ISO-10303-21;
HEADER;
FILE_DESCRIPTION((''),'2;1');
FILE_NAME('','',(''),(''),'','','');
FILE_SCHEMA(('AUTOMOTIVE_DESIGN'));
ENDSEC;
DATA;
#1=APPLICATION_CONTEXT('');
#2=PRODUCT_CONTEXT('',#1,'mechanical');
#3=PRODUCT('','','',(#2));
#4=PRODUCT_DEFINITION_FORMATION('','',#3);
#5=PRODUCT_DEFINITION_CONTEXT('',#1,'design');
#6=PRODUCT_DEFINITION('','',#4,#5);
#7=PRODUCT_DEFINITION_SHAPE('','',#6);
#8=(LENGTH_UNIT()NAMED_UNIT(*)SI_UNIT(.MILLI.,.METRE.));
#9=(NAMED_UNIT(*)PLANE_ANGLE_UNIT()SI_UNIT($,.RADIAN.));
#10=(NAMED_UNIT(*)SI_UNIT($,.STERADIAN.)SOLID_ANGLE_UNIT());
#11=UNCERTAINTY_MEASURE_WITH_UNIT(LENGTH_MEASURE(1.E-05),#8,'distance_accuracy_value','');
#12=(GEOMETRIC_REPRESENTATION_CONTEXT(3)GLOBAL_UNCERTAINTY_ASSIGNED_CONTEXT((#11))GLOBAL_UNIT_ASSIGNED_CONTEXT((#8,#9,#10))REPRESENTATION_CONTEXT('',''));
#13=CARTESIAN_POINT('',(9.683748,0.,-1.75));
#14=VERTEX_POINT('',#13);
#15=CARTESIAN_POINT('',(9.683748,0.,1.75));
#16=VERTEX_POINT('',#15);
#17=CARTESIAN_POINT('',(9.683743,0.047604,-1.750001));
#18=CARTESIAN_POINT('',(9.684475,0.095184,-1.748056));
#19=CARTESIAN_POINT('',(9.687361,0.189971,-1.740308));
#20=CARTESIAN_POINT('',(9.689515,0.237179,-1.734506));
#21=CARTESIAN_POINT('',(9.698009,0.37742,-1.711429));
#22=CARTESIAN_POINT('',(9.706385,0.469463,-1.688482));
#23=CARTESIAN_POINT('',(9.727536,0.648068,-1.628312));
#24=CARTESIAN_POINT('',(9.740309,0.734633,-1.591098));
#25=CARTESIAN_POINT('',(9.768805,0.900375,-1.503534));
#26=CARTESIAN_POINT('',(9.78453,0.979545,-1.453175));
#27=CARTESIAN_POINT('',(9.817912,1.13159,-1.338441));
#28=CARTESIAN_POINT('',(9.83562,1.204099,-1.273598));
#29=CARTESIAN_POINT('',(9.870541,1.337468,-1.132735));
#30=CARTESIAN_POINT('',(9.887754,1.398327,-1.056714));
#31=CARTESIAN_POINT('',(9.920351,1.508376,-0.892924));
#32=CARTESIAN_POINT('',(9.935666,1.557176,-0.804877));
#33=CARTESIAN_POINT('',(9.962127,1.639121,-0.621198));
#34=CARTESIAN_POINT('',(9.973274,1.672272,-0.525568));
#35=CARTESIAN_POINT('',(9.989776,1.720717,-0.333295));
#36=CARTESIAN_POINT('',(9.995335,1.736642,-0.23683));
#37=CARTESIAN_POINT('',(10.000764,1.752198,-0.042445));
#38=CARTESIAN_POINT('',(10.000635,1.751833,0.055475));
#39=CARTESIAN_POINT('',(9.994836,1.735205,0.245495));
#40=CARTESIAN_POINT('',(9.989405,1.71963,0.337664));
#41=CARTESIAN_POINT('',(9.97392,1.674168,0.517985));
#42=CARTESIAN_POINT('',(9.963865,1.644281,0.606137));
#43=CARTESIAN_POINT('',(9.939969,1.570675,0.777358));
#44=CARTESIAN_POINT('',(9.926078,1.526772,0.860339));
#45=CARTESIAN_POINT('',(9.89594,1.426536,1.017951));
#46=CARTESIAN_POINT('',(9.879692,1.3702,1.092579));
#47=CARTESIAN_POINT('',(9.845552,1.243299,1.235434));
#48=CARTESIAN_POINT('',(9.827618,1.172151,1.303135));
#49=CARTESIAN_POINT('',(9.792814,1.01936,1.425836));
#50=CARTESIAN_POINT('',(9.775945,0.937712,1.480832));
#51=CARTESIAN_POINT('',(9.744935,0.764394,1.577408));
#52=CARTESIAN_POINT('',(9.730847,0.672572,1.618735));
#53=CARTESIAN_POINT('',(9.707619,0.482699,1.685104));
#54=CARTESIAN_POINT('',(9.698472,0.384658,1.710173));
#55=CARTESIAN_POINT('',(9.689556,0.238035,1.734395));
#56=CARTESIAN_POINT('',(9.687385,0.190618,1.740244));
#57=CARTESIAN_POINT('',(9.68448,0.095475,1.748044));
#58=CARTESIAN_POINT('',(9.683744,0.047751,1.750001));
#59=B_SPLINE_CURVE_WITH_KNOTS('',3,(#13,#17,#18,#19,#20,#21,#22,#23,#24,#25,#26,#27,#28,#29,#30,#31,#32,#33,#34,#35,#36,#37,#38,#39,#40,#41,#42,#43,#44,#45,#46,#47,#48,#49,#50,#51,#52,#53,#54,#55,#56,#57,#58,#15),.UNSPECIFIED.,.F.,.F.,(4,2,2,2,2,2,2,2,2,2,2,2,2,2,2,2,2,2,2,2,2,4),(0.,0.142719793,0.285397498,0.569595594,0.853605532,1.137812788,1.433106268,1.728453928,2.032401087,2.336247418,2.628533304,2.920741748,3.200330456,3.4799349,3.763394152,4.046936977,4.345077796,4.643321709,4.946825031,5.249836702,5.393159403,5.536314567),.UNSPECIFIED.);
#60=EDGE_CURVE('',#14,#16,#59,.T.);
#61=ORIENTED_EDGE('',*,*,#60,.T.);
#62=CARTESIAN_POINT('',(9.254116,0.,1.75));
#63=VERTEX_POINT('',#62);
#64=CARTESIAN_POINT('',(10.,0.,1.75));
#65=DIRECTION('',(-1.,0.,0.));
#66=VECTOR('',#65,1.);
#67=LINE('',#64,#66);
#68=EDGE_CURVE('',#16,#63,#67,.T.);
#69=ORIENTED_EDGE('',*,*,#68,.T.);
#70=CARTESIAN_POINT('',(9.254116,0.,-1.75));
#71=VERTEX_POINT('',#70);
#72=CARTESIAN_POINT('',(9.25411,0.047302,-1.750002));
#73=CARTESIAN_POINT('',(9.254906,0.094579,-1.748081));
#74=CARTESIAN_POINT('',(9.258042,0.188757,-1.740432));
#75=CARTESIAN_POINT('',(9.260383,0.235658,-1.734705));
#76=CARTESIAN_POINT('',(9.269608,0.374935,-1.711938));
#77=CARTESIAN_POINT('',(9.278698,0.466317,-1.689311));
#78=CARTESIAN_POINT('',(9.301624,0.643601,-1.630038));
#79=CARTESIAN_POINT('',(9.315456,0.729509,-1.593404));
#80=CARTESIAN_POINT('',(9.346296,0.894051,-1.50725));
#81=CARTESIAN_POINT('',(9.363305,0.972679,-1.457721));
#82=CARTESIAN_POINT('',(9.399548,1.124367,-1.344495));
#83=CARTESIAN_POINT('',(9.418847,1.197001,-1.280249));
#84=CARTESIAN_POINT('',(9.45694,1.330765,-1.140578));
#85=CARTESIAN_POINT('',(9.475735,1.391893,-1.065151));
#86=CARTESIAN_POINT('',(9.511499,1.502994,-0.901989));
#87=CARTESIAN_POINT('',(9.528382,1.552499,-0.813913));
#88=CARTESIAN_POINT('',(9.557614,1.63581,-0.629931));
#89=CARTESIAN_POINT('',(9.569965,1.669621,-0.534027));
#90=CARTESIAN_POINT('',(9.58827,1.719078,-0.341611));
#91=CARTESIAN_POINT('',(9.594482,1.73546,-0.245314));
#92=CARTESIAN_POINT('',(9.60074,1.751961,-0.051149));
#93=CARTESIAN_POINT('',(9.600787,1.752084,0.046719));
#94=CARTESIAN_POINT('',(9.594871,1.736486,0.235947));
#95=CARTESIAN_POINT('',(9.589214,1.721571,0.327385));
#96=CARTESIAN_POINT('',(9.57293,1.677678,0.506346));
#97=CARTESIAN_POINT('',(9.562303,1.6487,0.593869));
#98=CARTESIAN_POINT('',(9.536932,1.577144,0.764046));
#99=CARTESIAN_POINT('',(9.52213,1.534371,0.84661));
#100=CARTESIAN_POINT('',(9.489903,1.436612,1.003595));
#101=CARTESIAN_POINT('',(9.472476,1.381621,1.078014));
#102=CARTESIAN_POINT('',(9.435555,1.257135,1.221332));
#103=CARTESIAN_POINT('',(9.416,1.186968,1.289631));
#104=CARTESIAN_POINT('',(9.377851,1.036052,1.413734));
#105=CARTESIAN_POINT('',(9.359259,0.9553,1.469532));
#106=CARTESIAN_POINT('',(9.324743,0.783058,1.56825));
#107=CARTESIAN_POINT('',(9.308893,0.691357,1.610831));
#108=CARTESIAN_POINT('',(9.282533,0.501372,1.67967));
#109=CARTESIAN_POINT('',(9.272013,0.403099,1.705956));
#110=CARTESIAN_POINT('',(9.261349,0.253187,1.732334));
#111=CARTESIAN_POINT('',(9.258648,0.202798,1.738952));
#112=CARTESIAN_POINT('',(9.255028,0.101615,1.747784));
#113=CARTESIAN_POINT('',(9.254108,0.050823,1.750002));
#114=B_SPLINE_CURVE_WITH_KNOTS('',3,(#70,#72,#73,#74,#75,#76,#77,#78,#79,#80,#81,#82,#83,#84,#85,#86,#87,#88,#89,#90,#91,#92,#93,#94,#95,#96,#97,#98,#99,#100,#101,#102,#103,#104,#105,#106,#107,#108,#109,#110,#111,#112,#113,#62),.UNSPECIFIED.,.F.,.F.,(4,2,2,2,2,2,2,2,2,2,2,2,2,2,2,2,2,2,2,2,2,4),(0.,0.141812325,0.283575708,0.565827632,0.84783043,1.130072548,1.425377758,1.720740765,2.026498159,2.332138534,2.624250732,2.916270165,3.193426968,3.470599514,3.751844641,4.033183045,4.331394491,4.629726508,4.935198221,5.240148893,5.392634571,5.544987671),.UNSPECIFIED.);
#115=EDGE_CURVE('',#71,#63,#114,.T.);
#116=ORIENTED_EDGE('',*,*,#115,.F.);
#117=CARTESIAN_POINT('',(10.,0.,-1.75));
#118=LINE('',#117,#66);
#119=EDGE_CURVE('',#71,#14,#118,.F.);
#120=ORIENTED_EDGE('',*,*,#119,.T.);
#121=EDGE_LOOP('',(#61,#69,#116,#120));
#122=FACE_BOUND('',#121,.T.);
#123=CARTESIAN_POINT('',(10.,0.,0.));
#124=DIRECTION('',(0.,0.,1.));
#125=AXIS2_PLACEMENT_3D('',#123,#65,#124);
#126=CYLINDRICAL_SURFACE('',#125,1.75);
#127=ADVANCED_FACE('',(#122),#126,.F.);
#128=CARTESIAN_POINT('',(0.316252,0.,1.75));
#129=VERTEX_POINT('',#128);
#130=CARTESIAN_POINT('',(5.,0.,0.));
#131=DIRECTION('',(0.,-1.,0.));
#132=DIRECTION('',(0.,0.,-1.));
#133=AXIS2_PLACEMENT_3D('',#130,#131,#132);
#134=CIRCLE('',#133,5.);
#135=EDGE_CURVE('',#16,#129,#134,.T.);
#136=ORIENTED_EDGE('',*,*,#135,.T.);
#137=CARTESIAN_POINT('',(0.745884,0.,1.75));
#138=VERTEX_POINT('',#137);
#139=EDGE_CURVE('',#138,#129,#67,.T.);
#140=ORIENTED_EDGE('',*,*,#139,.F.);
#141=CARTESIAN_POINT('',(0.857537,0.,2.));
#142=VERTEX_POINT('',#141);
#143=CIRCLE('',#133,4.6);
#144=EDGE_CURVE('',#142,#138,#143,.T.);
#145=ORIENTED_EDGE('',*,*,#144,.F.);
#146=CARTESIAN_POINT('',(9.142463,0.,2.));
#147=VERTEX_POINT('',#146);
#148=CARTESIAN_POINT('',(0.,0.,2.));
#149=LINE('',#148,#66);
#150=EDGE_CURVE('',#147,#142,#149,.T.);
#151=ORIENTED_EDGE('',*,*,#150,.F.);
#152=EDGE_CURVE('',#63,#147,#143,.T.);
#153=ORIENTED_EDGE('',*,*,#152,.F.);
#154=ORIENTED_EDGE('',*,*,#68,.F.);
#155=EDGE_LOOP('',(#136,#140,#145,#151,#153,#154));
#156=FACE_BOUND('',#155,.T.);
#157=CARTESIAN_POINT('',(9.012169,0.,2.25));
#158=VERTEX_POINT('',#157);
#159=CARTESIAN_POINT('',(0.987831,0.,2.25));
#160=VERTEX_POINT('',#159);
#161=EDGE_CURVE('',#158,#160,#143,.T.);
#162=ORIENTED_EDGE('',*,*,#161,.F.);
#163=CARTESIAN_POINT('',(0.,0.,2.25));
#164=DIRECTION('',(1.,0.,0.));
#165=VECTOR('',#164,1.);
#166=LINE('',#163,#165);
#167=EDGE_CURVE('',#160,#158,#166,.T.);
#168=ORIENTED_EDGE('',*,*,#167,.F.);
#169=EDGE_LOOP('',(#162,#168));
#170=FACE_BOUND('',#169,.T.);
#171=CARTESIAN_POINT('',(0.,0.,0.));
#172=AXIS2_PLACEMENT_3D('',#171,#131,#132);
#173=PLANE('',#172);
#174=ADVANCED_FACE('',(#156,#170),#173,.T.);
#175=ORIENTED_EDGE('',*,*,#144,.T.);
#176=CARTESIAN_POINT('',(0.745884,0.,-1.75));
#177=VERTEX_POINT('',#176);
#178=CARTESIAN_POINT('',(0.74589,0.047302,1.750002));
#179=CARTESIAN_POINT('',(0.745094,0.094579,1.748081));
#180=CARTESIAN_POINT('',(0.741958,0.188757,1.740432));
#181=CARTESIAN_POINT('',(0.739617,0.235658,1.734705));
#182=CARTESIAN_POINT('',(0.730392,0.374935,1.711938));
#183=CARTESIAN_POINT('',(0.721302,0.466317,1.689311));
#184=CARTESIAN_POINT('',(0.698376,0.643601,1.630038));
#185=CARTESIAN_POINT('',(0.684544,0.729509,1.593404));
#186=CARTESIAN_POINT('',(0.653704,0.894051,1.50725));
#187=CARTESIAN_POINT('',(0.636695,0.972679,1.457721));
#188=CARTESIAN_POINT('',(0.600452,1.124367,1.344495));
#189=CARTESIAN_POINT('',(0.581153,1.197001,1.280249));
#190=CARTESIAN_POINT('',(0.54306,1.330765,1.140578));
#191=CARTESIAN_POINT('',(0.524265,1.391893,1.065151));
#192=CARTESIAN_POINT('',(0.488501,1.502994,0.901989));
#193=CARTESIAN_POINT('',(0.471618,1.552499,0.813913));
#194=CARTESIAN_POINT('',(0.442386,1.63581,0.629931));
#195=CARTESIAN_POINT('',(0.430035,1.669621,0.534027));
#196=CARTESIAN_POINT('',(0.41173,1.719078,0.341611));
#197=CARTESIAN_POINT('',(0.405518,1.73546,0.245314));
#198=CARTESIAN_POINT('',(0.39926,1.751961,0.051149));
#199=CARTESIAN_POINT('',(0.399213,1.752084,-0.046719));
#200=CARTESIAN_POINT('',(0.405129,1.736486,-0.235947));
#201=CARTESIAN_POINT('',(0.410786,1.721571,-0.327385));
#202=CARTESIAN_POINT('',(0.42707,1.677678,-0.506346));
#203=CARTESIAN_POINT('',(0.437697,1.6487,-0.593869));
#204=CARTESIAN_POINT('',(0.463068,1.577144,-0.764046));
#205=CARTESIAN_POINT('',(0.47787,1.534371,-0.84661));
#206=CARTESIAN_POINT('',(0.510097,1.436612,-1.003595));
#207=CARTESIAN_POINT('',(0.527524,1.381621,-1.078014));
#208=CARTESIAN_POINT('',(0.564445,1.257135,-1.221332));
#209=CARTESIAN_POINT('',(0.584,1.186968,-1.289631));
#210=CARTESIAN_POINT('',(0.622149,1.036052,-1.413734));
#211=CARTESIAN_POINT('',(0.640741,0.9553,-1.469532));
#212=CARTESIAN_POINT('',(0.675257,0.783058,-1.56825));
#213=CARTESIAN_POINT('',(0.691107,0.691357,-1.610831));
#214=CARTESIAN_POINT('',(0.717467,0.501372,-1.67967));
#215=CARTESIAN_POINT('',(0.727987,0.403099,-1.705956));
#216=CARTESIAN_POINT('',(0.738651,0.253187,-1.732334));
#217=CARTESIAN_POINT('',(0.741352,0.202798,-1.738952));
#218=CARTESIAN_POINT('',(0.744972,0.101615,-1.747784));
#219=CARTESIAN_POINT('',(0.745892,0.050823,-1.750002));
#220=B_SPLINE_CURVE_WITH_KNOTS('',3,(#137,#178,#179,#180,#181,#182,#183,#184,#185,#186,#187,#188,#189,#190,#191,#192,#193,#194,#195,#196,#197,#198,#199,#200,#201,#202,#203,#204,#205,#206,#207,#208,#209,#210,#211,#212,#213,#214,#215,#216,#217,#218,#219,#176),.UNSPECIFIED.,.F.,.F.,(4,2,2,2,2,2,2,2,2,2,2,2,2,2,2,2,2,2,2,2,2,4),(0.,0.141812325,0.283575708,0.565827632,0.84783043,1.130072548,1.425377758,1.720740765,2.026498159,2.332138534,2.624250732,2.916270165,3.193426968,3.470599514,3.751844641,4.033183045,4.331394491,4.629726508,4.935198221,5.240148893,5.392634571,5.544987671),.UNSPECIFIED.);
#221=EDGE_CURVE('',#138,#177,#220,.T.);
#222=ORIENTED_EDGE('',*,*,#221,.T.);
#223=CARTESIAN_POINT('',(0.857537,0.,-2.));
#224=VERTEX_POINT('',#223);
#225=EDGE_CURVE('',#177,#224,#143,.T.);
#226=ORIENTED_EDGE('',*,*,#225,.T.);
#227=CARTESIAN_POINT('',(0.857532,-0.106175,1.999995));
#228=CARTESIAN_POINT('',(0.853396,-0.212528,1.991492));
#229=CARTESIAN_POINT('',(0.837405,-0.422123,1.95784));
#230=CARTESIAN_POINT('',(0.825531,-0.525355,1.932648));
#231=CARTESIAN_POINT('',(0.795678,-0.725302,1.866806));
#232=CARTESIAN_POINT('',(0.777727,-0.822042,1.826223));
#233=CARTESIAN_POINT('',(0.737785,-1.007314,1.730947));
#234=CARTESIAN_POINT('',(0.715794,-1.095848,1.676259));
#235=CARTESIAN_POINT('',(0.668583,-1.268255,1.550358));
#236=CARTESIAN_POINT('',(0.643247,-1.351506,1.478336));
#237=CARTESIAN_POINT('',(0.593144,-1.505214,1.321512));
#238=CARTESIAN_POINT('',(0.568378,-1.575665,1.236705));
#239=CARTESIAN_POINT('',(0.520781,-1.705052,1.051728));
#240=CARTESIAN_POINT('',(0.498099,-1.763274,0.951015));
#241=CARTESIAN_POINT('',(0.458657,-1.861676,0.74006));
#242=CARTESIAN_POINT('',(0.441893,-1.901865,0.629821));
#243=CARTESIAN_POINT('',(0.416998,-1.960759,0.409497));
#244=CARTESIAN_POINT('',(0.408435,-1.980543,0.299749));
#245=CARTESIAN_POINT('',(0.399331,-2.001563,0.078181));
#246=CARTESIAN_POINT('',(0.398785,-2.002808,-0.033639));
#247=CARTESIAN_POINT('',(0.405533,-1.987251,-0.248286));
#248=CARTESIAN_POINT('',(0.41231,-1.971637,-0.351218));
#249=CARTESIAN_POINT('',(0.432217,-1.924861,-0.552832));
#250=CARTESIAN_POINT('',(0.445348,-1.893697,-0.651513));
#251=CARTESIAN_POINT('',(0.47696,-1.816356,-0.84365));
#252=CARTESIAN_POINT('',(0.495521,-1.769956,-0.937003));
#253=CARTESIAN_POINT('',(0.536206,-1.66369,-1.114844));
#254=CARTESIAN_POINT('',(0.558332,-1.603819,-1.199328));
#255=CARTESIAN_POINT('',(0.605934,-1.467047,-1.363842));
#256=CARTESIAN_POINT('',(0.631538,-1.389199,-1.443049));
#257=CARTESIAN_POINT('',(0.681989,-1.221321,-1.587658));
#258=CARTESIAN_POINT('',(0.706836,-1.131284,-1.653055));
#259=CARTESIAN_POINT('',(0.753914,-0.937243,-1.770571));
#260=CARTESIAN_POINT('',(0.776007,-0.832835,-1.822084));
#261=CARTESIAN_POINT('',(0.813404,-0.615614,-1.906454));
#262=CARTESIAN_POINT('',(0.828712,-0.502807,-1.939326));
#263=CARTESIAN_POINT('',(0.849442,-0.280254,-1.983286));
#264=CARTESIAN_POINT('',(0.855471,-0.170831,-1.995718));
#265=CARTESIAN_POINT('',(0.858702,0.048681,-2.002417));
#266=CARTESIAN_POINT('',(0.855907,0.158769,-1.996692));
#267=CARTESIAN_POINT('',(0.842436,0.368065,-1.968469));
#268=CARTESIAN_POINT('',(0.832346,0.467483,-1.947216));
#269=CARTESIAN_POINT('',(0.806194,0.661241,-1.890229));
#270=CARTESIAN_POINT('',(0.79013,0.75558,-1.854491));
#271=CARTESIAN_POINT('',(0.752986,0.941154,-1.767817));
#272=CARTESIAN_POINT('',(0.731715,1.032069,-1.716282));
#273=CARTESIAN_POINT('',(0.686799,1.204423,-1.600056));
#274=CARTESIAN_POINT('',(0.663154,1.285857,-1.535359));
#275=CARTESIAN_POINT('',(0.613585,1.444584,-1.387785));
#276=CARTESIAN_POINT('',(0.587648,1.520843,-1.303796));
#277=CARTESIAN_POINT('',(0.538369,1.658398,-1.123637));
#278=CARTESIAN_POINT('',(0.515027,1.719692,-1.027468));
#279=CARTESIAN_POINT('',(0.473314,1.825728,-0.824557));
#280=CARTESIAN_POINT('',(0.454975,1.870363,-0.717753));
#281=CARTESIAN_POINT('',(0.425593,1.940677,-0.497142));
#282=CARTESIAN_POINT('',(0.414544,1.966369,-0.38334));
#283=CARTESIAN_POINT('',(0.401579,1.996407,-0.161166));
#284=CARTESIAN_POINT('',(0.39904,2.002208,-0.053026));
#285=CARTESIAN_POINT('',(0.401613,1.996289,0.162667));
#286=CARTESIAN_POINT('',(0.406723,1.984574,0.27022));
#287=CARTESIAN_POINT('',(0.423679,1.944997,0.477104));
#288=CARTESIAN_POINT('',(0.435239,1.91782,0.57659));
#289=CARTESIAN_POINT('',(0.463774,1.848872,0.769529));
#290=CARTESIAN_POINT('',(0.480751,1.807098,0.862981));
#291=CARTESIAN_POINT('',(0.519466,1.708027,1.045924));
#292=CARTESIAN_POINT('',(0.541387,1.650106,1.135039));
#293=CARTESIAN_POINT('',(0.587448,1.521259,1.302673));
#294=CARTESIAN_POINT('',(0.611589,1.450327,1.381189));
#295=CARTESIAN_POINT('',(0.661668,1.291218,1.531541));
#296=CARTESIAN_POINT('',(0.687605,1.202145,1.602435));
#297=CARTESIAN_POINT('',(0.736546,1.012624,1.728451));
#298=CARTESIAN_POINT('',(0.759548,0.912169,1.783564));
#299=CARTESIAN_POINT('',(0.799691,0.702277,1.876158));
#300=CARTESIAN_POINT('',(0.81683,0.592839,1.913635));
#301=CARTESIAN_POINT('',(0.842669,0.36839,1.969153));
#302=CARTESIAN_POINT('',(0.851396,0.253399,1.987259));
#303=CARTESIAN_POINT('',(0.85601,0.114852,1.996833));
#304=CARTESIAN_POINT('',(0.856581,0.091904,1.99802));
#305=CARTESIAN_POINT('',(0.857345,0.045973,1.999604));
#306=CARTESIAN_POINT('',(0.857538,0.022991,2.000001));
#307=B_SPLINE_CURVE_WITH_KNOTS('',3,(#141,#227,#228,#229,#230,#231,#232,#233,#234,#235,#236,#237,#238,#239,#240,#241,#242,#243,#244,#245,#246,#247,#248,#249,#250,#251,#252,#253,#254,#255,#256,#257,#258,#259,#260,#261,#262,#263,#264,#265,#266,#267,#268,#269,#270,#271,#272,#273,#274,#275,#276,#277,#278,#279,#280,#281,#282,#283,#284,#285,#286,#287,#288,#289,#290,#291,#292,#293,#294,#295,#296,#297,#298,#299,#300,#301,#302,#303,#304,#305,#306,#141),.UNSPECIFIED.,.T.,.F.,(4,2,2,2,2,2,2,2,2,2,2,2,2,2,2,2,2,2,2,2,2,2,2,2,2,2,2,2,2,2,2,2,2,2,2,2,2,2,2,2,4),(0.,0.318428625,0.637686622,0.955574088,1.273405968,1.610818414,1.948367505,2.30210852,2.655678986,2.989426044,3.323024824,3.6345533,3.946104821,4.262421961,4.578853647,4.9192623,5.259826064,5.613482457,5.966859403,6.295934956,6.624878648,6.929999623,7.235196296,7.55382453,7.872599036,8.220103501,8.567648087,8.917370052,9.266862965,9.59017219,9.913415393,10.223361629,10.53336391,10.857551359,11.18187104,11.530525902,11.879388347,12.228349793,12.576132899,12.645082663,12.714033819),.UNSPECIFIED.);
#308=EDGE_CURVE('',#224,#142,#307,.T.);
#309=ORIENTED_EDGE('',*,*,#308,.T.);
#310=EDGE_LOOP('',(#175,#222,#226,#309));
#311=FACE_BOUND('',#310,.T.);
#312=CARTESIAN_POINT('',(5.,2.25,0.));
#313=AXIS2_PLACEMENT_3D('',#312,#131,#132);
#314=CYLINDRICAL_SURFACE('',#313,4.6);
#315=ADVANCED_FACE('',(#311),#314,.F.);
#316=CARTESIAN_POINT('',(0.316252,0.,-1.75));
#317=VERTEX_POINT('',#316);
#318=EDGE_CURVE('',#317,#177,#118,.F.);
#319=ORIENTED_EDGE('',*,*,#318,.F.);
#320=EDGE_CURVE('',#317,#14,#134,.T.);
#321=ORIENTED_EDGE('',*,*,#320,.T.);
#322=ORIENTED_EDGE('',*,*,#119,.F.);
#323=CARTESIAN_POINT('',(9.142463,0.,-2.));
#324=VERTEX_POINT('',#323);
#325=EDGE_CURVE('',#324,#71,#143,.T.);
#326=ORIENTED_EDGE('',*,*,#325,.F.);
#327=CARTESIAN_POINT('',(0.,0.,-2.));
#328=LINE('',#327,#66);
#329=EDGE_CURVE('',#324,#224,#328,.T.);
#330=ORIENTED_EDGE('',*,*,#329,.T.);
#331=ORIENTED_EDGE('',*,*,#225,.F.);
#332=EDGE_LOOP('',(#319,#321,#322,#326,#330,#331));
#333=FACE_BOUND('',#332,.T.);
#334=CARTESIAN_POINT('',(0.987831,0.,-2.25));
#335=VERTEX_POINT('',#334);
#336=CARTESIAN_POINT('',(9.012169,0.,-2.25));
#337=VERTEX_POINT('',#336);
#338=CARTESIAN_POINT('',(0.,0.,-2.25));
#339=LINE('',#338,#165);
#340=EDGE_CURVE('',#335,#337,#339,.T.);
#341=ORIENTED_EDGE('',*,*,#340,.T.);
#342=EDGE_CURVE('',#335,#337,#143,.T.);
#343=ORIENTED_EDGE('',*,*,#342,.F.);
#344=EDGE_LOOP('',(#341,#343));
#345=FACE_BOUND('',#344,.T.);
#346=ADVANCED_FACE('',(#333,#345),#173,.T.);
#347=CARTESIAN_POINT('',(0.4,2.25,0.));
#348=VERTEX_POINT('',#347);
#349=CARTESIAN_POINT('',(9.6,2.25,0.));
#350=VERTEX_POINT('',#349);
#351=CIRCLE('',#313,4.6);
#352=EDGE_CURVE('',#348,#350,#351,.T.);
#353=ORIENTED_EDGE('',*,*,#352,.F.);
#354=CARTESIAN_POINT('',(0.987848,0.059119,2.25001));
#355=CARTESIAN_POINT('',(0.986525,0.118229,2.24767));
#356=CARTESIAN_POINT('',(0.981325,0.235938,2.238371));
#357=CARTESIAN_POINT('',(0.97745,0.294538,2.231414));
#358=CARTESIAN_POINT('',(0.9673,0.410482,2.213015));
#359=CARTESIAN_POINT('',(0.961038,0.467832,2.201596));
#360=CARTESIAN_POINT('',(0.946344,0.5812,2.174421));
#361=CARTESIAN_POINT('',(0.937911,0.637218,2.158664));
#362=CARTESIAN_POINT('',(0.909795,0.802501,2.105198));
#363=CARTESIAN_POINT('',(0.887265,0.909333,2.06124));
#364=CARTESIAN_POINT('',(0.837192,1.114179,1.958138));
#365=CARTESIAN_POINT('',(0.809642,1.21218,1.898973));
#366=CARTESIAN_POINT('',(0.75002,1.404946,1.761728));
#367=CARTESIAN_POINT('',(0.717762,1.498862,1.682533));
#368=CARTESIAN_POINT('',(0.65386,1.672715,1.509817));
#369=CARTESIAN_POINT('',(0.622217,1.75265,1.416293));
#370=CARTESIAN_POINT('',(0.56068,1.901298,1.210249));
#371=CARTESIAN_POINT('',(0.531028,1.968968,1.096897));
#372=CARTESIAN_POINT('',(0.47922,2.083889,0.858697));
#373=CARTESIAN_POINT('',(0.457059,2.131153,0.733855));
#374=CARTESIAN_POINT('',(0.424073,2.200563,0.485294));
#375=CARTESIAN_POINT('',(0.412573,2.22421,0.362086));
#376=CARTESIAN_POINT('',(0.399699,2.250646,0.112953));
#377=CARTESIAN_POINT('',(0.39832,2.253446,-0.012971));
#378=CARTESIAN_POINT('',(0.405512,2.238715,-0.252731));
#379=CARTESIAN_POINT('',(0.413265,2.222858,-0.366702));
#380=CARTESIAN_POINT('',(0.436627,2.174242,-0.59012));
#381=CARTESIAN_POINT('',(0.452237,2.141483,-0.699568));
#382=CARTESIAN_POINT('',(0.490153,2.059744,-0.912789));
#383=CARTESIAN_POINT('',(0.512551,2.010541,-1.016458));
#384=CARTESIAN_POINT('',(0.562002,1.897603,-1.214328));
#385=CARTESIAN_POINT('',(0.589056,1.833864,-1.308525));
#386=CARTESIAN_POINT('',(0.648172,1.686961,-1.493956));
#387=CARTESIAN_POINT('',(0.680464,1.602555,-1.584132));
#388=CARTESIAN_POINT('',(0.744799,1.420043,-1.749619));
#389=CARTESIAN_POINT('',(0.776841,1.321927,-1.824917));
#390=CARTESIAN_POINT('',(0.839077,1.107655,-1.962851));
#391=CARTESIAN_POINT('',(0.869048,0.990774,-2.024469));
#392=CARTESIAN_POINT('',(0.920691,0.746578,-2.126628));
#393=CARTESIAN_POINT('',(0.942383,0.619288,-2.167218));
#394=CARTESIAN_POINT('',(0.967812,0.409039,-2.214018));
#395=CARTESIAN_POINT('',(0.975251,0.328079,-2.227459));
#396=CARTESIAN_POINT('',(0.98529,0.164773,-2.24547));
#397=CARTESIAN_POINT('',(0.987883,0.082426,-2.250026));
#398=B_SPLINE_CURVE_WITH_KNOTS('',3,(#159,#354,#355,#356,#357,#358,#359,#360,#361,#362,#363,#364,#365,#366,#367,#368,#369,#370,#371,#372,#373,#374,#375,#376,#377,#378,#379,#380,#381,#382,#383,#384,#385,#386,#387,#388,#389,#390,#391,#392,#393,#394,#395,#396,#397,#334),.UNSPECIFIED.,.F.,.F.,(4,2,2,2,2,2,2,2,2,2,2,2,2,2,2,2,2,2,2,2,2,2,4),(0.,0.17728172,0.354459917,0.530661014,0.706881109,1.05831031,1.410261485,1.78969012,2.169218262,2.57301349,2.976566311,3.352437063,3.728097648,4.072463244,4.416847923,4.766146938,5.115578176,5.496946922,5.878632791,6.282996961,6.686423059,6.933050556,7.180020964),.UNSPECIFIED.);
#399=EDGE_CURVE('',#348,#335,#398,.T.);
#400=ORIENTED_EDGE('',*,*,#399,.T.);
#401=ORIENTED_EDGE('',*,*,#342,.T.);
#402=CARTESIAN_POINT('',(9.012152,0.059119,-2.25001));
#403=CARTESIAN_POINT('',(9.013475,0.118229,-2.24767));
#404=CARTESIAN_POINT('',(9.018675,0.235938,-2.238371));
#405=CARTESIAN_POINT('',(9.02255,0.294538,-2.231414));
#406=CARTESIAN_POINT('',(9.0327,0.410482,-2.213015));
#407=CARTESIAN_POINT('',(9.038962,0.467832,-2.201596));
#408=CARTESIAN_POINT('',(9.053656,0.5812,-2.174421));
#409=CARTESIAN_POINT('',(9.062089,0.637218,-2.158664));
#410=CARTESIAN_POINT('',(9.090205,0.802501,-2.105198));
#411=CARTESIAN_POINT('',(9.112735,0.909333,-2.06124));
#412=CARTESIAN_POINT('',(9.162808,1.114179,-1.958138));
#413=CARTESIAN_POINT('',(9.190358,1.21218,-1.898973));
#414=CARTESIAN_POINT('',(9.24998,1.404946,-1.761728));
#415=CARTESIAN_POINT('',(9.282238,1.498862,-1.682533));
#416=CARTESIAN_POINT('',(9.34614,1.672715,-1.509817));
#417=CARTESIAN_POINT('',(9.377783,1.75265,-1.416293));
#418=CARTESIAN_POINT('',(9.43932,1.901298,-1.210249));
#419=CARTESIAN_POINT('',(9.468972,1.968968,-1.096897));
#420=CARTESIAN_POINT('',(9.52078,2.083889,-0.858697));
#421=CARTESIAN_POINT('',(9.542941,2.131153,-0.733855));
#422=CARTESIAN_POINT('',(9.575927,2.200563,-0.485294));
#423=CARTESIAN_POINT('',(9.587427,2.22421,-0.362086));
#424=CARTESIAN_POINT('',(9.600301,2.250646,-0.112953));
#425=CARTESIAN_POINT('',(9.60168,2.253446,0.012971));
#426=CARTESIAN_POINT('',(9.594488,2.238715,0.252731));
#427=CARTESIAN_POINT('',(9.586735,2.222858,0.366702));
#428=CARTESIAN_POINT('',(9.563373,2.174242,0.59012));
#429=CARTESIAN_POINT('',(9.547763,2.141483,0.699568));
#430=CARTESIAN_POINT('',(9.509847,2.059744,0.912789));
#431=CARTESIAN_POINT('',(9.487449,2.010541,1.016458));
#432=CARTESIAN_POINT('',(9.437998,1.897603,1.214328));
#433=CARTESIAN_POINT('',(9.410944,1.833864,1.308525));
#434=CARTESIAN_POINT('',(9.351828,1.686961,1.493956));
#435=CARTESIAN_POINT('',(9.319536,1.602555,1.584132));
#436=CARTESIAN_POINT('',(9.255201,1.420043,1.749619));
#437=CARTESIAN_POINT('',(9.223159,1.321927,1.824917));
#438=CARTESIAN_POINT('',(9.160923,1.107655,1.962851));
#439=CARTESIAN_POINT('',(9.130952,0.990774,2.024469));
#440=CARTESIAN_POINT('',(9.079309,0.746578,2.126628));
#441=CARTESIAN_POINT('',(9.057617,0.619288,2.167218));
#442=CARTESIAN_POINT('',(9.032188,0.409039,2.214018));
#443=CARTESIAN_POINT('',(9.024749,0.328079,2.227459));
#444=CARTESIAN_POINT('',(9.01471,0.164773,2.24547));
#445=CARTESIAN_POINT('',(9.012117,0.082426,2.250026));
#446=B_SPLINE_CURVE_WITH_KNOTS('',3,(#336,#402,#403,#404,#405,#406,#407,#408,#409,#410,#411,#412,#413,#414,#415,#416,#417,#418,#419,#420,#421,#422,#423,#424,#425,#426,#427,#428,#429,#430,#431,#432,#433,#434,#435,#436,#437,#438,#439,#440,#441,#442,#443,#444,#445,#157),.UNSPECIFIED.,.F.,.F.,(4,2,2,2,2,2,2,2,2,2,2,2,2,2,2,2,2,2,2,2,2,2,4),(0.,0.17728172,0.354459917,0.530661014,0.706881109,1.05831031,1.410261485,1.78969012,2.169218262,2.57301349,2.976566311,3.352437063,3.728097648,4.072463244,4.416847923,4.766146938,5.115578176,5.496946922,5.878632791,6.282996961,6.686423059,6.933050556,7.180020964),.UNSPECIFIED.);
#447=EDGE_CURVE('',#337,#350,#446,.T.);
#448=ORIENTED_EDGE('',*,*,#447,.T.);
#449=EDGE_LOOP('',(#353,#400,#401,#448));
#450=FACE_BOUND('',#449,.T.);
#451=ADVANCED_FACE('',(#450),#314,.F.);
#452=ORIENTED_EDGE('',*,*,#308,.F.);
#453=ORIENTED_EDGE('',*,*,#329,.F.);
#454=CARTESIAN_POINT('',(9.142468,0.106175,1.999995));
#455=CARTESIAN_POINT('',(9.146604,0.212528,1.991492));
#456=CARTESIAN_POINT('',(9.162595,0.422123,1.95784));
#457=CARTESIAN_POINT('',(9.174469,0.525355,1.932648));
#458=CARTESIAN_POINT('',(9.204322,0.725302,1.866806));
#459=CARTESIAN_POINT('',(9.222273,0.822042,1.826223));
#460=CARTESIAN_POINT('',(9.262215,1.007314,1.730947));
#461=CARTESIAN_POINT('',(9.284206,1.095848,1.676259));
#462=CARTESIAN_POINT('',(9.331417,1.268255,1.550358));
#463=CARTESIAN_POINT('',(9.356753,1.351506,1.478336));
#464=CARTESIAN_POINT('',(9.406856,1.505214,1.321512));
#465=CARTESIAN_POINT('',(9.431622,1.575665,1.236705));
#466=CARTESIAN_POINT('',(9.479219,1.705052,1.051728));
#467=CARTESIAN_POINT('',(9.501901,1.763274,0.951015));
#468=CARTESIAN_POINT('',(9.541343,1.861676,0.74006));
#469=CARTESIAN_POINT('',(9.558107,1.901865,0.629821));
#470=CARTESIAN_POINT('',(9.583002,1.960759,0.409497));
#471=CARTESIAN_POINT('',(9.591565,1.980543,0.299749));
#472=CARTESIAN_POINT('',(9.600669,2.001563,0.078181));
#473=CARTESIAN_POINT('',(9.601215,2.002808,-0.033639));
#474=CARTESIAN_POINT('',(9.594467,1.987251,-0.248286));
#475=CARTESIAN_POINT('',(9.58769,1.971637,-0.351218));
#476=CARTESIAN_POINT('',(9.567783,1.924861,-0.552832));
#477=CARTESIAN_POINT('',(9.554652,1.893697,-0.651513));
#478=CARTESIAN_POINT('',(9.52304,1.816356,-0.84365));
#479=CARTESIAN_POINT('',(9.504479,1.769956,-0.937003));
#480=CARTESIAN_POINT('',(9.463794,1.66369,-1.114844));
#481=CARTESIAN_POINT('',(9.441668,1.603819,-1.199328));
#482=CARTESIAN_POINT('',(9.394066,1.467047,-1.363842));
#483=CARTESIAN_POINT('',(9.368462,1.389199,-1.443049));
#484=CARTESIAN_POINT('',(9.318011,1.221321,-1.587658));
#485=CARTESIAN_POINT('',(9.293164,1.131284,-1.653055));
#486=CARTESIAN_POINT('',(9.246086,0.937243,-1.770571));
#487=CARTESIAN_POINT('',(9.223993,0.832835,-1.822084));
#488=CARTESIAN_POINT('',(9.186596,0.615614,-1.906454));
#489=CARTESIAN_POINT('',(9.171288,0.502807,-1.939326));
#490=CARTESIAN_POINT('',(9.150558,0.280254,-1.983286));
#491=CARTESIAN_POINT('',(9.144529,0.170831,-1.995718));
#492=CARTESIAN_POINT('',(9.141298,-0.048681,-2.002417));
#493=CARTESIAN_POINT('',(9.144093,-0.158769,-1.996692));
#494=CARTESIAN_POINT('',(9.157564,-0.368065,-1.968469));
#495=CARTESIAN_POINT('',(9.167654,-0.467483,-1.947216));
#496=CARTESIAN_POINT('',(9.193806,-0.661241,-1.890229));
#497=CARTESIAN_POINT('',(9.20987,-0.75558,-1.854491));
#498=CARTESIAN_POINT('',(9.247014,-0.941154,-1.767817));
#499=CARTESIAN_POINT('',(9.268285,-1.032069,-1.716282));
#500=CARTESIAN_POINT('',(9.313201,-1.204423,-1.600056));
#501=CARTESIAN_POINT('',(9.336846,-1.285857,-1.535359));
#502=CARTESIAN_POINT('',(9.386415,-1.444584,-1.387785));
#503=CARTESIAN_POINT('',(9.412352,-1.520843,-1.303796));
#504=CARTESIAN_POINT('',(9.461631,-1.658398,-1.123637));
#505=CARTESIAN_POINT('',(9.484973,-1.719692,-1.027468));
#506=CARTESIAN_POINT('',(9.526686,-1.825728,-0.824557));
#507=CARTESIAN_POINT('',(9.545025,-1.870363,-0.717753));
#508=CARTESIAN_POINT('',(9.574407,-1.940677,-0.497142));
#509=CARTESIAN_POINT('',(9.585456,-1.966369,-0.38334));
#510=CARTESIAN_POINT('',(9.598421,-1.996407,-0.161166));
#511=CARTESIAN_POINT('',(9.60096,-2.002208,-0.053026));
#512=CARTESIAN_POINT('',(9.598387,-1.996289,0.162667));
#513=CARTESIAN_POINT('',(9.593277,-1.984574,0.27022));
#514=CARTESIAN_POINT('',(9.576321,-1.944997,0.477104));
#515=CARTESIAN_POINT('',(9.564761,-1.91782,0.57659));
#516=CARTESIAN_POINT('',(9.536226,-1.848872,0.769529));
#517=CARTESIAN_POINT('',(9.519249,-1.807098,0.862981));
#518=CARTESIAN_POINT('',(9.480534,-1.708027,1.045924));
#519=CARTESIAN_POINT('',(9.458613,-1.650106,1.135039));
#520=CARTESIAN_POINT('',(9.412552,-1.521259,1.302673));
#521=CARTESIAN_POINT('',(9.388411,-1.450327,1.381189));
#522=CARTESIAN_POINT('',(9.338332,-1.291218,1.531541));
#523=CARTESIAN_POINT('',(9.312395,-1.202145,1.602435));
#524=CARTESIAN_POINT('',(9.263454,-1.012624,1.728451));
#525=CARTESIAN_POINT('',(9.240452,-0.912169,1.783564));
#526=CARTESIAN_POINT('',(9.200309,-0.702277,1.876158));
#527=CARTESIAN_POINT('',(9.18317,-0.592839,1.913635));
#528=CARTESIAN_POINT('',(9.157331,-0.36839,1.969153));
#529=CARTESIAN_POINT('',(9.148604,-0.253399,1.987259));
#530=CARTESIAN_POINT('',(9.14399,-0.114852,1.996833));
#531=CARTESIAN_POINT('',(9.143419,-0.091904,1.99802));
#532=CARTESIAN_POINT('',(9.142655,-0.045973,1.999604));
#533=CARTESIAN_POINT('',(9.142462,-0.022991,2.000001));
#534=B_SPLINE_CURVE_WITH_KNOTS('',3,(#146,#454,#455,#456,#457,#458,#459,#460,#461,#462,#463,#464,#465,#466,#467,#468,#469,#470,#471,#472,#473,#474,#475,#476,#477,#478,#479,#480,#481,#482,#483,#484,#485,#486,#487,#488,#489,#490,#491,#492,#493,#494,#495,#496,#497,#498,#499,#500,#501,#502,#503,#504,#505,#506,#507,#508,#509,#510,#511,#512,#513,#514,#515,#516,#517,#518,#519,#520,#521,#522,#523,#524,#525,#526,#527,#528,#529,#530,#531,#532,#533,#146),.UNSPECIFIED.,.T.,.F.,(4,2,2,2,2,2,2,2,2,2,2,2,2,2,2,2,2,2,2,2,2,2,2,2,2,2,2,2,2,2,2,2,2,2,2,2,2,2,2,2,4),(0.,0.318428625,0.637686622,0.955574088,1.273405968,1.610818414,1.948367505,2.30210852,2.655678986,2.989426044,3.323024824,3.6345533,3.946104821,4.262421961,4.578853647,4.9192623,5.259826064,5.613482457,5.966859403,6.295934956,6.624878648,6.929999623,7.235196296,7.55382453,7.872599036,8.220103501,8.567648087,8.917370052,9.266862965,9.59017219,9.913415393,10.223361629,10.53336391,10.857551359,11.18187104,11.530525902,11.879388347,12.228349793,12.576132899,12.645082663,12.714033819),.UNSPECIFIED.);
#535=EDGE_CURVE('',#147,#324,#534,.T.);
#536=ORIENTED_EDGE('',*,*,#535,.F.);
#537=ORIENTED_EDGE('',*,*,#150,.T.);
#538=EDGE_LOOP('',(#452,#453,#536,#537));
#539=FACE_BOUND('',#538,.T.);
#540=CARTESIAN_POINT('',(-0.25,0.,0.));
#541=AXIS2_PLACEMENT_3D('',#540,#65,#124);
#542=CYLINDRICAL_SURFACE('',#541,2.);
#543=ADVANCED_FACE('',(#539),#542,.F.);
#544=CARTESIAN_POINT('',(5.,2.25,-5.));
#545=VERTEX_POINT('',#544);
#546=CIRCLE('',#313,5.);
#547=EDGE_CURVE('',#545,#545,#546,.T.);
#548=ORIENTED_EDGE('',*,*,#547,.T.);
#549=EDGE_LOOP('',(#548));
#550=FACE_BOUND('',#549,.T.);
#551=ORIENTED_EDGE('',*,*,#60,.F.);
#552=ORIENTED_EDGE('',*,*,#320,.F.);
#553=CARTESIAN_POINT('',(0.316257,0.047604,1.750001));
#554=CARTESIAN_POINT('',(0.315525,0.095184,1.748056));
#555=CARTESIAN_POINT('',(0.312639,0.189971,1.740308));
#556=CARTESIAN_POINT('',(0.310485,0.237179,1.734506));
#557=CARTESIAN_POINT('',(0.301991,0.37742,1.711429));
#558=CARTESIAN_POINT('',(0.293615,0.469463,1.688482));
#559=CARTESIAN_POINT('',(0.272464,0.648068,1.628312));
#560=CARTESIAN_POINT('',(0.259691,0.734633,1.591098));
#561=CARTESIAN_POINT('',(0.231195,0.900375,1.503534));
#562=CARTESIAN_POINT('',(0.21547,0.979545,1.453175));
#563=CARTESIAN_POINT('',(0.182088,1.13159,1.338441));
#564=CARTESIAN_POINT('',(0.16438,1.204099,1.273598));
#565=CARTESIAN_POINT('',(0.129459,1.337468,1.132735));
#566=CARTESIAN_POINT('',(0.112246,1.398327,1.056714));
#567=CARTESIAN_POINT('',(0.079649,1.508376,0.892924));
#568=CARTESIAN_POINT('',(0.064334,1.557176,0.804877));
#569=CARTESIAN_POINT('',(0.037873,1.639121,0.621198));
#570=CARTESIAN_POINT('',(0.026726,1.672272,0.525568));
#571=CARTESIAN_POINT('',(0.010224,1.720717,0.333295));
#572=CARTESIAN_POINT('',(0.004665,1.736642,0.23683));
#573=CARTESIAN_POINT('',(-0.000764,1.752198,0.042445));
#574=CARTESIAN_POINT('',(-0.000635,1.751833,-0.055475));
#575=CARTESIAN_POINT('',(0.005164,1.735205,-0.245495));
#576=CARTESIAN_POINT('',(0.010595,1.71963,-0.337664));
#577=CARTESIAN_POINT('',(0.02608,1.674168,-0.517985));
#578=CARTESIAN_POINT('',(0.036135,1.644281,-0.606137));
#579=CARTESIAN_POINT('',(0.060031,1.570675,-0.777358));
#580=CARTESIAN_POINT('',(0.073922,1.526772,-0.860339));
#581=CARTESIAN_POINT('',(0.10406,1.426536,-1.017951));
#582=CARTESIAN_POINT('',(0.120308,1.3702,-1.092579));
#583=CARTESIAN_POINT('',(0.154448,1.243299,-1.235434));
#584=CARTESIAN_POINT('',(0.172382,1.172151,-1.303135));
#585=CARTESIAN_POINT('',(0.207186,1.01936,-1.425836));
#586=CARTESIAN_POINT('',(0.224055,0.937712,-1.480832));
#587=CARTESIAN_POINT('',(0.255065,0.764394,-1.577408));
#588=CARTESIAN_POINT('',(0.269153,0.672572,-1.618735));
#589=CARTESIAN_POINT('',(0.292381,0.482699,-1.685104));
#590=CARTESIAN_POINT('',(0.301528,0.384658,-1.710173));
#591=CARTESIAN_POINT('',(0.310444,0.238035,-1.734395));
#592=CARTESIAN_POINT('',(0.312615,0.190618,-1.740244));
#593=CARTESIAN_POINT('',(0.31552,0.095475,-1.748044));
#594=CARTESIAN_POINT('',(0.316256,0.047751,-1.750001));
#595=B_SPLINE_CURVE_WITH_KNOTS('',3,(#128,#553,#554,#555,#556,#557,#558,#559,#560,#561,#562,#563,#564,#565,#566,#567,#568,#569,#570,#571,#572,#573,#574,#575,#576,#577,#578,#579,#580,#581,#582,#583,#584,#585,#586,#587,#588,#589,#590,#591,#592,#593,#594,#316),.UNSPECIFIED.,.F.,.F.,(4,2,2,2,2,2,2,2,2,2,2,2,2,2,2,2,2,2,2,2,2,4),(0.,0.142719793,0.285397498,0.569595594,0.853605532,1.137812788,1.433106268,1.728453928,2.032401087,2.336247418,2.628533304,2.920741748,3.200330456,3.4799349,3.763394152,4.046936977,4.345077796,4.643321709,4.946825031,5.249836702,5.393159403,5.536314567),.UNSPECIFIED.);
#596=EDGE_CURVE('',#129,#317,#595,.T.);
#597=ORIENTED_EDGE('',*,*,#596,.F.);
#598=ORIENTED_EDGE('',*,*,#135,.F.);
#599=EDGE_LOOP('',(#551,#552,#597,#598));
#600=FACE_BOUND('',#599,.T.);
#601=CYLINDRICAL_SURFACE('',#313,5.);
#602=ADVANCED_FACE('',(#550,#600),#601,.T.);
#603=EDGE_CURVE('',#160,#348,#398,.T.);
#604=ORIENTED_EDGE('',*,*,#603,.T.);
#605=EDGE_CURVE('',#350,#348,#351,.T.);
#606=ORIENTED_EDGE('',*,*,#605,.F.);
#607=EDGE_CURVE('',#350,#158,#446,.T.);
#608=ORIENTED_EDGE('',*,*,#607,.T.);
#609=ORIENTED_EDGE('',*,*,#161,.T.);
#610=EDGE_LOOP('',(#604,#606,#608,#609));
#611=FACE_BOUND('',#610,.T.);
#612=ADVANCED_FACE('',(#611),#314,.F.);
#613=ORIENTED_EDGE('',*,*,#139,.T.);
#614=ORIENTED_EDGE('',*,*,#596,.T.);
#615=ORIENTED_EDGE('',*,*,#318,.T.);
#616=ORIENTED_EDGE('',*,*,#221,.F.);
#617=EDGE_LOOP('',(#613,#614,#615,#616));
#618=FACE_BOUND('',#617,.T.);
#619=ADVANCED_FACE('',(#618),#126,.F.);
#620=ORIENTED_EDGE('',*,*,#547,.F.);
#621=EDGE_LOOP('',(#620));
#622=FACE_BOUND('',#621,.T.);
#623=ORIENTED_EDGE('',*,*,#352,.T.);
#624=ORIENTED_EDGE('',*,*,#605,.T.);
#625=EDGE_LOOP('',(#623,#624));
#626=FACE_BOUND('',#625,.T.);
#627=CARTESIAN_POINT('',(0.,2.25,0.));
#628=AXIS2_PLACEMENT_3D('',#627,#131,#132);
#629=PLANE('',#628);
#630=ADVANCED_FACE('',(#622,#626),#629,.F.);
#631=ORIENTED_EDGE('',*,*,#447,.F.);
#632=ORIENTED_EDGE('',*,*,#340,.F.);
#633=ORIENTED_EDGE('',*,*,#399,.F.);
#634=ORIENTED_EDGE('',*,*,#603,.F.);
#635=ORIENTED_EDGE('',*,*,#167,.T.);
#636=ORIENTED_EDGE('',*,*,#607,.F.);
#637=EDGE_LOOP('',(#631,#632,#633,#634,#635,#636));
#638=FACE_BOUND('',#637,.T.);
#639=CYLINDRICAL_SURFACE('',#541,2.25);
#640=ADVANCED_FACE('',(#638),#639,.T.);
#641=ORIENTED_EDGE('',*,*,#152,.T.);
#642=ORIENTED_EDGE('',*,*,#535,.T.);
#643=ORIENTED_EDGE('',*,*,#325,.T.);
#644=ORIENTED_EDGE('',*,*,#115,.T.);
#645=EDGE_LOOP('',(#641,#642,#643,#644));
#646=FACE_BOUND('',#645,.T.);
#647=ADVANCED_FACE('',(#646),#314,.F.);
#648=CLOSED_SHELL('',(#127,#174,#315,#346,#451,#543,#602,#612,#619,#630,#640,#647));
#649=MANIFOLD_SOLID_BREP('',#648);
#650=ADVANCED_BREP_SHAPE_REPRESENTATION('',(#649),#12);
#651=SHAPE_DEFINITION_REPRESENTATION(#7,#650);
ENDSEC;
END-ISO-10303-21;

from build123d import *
from build123d.topology import SkipClean

# Parameters (mm, degrees)
SKETCH3_R             = 1.75
STIR_BAR_DEPTH        = 10
SKETCH4_W             = 10.5
SKETCH4_H             = 0.25
STIR_BAR_HOLDER_ANGLE = 180
BOSS_EXTRUDE1_DEPTH   = 2.25
SKETCH10_R            = 5.711829829
SKETCH10_R_2          = 5
CUT_EXTRUDE5_DEPTH    = 12.624328088
SKETCH9_R             = 1.75
CUT_EXTRUDE6_DEPTH    = 12.404494879


with BuildPart() as part:
    # Sketch3 → Stir Bar (new body)
    with BuildSketch(Plane(origin=(0, 0, 0), x_dir=(0, 0, -1), z_dir=(1, 0, 0))):
        Circle(SKETCH3_R)
    extrude(amount=STIR_BAR_DEPTH)



with BuildPart() as body_2:
    # Sketch4 → Stir Bar Holder (revolve)
    with BuildSketch(Plane(origin=(0, 0, 0), x_dir=(1, 0, 0), z_dir=(0, 1, 0))):
        with Locations((5, 2.125)):
            Rectangle(SKETCH4_W, SKETCH4_H)
    revolve(axis=Axis((-0.25, 0, 0), (1, 0, 0)), revolution_arc=STIR_BAR_HOLDER_ANGLE)


with BuildPart() as part_1:
    with SkipClean():  # the faces are left unmerged after this step: merging them gives an invalid solid
        add(part.part)

        add(body_2.part)  # Boss-Extrude1 merges body 2
        # Sketch5 → Boss-Extrude1 (add, through all)
        with BuildSketch(Plane.XZ):
            with BuildLine():
                ThreePointArc((0.987831011, 2.25), (5, 4.6), (9.012168989, 2.25))
                Line((9.012168989, 2.25), (9.465142775, 2.25))
                ThreePointArc((9.465142775, 2.25), (5, 5), (0.534857225, 2.25))
                Line((0.534857225, 2.25), (0.987831011, 2.25))
            make_face()
            with BuildLine():
                ThreePointArc((9.012168989, 2.25), (9.079231651, 2.125998385), (9.142463035, 2))
                Line((9.142463035, 2), (9.582575695, 2))
                ThreePointArc((9.582575695, 2), (9.52558586, 2.125811051), (9.465142775, 2.25))
                Line((9.465142775, 2.25), (9.012168989, 2.25))
            make_face()
            with BuildLine():
                Line((0.417424305, 2), (0.857536965, 2))
                ThreePointArc((0.857536965, 2), (0.920768349, 2.125998385), (0.987831011, 2.25))
                Line((0.987831011, 2.25), (0.534857225, 2.25))
                ThreePointArc((0.534857225, 2.25), (0.47441414, 2.125811051), (0.417424305, 2))
            make_face()
            with BuildLine():
                ThreePointArc((9.142463035, 2), (9.484157109, 1.025833816), (9.6, 0))
                Line((9.6, 0), (10, 0))
                ThreePointArc((10, 0), (9.894531565, 1.021548218), (9.582575695, 2))
                Line((9.582575695, 2), (9.142463035, 2))
            make_face()
            with BuildLine():
                Line((0, 0), (0.4, 0))
                ThreePointArc((0.4, 0), (0.515842891, 1.025833816), (0.857536965, 2))
                Line((0.857536965, 2), (0.417424305, 2))
                ThreePointArc((0.417424305, 2), (0.105468435, 1.021548218), (0, 0))
            make_face()
            with BuildLine():
                Line((10, 0), (9.6, 0))
                ThreePointArc((9.6, 0), (5, -4.6), (0.4, 0))
                Line((0.4, 0), (0, 0))
                ThreePointArc((0, 0), (5, -5), (10, 0))
            make_face()
        extrude(amount=-BOSS_EXTRUDE1_DEPTH)

    # Sketch10 → Cut-Extrude5 (cut, through all)
    with BuildSketch(Plane.XZ):
        with Locations((5, 0)):
            Circle(SKETCH10_R)
        with Locations(Location((5, 0, 0), (0, 0, 270))):
            Circle(SKETCH10_R_2, mode=Mode.SUBTRACT)
    extrude(amount=-CUT_EXTRUDE5_DEPTH, mode=Mode.SUBTRACT)

    # Sketch9 → Cut-Extrude6 (cut, through all)
    with BuildSketch(Plane.ZY):
        Circle(SKETCH9_R)
    extrude(amount=-CUT_EXTRUDE6_DEPTH, mode=Mode.SUBTRACT)


solid = part_1.part
